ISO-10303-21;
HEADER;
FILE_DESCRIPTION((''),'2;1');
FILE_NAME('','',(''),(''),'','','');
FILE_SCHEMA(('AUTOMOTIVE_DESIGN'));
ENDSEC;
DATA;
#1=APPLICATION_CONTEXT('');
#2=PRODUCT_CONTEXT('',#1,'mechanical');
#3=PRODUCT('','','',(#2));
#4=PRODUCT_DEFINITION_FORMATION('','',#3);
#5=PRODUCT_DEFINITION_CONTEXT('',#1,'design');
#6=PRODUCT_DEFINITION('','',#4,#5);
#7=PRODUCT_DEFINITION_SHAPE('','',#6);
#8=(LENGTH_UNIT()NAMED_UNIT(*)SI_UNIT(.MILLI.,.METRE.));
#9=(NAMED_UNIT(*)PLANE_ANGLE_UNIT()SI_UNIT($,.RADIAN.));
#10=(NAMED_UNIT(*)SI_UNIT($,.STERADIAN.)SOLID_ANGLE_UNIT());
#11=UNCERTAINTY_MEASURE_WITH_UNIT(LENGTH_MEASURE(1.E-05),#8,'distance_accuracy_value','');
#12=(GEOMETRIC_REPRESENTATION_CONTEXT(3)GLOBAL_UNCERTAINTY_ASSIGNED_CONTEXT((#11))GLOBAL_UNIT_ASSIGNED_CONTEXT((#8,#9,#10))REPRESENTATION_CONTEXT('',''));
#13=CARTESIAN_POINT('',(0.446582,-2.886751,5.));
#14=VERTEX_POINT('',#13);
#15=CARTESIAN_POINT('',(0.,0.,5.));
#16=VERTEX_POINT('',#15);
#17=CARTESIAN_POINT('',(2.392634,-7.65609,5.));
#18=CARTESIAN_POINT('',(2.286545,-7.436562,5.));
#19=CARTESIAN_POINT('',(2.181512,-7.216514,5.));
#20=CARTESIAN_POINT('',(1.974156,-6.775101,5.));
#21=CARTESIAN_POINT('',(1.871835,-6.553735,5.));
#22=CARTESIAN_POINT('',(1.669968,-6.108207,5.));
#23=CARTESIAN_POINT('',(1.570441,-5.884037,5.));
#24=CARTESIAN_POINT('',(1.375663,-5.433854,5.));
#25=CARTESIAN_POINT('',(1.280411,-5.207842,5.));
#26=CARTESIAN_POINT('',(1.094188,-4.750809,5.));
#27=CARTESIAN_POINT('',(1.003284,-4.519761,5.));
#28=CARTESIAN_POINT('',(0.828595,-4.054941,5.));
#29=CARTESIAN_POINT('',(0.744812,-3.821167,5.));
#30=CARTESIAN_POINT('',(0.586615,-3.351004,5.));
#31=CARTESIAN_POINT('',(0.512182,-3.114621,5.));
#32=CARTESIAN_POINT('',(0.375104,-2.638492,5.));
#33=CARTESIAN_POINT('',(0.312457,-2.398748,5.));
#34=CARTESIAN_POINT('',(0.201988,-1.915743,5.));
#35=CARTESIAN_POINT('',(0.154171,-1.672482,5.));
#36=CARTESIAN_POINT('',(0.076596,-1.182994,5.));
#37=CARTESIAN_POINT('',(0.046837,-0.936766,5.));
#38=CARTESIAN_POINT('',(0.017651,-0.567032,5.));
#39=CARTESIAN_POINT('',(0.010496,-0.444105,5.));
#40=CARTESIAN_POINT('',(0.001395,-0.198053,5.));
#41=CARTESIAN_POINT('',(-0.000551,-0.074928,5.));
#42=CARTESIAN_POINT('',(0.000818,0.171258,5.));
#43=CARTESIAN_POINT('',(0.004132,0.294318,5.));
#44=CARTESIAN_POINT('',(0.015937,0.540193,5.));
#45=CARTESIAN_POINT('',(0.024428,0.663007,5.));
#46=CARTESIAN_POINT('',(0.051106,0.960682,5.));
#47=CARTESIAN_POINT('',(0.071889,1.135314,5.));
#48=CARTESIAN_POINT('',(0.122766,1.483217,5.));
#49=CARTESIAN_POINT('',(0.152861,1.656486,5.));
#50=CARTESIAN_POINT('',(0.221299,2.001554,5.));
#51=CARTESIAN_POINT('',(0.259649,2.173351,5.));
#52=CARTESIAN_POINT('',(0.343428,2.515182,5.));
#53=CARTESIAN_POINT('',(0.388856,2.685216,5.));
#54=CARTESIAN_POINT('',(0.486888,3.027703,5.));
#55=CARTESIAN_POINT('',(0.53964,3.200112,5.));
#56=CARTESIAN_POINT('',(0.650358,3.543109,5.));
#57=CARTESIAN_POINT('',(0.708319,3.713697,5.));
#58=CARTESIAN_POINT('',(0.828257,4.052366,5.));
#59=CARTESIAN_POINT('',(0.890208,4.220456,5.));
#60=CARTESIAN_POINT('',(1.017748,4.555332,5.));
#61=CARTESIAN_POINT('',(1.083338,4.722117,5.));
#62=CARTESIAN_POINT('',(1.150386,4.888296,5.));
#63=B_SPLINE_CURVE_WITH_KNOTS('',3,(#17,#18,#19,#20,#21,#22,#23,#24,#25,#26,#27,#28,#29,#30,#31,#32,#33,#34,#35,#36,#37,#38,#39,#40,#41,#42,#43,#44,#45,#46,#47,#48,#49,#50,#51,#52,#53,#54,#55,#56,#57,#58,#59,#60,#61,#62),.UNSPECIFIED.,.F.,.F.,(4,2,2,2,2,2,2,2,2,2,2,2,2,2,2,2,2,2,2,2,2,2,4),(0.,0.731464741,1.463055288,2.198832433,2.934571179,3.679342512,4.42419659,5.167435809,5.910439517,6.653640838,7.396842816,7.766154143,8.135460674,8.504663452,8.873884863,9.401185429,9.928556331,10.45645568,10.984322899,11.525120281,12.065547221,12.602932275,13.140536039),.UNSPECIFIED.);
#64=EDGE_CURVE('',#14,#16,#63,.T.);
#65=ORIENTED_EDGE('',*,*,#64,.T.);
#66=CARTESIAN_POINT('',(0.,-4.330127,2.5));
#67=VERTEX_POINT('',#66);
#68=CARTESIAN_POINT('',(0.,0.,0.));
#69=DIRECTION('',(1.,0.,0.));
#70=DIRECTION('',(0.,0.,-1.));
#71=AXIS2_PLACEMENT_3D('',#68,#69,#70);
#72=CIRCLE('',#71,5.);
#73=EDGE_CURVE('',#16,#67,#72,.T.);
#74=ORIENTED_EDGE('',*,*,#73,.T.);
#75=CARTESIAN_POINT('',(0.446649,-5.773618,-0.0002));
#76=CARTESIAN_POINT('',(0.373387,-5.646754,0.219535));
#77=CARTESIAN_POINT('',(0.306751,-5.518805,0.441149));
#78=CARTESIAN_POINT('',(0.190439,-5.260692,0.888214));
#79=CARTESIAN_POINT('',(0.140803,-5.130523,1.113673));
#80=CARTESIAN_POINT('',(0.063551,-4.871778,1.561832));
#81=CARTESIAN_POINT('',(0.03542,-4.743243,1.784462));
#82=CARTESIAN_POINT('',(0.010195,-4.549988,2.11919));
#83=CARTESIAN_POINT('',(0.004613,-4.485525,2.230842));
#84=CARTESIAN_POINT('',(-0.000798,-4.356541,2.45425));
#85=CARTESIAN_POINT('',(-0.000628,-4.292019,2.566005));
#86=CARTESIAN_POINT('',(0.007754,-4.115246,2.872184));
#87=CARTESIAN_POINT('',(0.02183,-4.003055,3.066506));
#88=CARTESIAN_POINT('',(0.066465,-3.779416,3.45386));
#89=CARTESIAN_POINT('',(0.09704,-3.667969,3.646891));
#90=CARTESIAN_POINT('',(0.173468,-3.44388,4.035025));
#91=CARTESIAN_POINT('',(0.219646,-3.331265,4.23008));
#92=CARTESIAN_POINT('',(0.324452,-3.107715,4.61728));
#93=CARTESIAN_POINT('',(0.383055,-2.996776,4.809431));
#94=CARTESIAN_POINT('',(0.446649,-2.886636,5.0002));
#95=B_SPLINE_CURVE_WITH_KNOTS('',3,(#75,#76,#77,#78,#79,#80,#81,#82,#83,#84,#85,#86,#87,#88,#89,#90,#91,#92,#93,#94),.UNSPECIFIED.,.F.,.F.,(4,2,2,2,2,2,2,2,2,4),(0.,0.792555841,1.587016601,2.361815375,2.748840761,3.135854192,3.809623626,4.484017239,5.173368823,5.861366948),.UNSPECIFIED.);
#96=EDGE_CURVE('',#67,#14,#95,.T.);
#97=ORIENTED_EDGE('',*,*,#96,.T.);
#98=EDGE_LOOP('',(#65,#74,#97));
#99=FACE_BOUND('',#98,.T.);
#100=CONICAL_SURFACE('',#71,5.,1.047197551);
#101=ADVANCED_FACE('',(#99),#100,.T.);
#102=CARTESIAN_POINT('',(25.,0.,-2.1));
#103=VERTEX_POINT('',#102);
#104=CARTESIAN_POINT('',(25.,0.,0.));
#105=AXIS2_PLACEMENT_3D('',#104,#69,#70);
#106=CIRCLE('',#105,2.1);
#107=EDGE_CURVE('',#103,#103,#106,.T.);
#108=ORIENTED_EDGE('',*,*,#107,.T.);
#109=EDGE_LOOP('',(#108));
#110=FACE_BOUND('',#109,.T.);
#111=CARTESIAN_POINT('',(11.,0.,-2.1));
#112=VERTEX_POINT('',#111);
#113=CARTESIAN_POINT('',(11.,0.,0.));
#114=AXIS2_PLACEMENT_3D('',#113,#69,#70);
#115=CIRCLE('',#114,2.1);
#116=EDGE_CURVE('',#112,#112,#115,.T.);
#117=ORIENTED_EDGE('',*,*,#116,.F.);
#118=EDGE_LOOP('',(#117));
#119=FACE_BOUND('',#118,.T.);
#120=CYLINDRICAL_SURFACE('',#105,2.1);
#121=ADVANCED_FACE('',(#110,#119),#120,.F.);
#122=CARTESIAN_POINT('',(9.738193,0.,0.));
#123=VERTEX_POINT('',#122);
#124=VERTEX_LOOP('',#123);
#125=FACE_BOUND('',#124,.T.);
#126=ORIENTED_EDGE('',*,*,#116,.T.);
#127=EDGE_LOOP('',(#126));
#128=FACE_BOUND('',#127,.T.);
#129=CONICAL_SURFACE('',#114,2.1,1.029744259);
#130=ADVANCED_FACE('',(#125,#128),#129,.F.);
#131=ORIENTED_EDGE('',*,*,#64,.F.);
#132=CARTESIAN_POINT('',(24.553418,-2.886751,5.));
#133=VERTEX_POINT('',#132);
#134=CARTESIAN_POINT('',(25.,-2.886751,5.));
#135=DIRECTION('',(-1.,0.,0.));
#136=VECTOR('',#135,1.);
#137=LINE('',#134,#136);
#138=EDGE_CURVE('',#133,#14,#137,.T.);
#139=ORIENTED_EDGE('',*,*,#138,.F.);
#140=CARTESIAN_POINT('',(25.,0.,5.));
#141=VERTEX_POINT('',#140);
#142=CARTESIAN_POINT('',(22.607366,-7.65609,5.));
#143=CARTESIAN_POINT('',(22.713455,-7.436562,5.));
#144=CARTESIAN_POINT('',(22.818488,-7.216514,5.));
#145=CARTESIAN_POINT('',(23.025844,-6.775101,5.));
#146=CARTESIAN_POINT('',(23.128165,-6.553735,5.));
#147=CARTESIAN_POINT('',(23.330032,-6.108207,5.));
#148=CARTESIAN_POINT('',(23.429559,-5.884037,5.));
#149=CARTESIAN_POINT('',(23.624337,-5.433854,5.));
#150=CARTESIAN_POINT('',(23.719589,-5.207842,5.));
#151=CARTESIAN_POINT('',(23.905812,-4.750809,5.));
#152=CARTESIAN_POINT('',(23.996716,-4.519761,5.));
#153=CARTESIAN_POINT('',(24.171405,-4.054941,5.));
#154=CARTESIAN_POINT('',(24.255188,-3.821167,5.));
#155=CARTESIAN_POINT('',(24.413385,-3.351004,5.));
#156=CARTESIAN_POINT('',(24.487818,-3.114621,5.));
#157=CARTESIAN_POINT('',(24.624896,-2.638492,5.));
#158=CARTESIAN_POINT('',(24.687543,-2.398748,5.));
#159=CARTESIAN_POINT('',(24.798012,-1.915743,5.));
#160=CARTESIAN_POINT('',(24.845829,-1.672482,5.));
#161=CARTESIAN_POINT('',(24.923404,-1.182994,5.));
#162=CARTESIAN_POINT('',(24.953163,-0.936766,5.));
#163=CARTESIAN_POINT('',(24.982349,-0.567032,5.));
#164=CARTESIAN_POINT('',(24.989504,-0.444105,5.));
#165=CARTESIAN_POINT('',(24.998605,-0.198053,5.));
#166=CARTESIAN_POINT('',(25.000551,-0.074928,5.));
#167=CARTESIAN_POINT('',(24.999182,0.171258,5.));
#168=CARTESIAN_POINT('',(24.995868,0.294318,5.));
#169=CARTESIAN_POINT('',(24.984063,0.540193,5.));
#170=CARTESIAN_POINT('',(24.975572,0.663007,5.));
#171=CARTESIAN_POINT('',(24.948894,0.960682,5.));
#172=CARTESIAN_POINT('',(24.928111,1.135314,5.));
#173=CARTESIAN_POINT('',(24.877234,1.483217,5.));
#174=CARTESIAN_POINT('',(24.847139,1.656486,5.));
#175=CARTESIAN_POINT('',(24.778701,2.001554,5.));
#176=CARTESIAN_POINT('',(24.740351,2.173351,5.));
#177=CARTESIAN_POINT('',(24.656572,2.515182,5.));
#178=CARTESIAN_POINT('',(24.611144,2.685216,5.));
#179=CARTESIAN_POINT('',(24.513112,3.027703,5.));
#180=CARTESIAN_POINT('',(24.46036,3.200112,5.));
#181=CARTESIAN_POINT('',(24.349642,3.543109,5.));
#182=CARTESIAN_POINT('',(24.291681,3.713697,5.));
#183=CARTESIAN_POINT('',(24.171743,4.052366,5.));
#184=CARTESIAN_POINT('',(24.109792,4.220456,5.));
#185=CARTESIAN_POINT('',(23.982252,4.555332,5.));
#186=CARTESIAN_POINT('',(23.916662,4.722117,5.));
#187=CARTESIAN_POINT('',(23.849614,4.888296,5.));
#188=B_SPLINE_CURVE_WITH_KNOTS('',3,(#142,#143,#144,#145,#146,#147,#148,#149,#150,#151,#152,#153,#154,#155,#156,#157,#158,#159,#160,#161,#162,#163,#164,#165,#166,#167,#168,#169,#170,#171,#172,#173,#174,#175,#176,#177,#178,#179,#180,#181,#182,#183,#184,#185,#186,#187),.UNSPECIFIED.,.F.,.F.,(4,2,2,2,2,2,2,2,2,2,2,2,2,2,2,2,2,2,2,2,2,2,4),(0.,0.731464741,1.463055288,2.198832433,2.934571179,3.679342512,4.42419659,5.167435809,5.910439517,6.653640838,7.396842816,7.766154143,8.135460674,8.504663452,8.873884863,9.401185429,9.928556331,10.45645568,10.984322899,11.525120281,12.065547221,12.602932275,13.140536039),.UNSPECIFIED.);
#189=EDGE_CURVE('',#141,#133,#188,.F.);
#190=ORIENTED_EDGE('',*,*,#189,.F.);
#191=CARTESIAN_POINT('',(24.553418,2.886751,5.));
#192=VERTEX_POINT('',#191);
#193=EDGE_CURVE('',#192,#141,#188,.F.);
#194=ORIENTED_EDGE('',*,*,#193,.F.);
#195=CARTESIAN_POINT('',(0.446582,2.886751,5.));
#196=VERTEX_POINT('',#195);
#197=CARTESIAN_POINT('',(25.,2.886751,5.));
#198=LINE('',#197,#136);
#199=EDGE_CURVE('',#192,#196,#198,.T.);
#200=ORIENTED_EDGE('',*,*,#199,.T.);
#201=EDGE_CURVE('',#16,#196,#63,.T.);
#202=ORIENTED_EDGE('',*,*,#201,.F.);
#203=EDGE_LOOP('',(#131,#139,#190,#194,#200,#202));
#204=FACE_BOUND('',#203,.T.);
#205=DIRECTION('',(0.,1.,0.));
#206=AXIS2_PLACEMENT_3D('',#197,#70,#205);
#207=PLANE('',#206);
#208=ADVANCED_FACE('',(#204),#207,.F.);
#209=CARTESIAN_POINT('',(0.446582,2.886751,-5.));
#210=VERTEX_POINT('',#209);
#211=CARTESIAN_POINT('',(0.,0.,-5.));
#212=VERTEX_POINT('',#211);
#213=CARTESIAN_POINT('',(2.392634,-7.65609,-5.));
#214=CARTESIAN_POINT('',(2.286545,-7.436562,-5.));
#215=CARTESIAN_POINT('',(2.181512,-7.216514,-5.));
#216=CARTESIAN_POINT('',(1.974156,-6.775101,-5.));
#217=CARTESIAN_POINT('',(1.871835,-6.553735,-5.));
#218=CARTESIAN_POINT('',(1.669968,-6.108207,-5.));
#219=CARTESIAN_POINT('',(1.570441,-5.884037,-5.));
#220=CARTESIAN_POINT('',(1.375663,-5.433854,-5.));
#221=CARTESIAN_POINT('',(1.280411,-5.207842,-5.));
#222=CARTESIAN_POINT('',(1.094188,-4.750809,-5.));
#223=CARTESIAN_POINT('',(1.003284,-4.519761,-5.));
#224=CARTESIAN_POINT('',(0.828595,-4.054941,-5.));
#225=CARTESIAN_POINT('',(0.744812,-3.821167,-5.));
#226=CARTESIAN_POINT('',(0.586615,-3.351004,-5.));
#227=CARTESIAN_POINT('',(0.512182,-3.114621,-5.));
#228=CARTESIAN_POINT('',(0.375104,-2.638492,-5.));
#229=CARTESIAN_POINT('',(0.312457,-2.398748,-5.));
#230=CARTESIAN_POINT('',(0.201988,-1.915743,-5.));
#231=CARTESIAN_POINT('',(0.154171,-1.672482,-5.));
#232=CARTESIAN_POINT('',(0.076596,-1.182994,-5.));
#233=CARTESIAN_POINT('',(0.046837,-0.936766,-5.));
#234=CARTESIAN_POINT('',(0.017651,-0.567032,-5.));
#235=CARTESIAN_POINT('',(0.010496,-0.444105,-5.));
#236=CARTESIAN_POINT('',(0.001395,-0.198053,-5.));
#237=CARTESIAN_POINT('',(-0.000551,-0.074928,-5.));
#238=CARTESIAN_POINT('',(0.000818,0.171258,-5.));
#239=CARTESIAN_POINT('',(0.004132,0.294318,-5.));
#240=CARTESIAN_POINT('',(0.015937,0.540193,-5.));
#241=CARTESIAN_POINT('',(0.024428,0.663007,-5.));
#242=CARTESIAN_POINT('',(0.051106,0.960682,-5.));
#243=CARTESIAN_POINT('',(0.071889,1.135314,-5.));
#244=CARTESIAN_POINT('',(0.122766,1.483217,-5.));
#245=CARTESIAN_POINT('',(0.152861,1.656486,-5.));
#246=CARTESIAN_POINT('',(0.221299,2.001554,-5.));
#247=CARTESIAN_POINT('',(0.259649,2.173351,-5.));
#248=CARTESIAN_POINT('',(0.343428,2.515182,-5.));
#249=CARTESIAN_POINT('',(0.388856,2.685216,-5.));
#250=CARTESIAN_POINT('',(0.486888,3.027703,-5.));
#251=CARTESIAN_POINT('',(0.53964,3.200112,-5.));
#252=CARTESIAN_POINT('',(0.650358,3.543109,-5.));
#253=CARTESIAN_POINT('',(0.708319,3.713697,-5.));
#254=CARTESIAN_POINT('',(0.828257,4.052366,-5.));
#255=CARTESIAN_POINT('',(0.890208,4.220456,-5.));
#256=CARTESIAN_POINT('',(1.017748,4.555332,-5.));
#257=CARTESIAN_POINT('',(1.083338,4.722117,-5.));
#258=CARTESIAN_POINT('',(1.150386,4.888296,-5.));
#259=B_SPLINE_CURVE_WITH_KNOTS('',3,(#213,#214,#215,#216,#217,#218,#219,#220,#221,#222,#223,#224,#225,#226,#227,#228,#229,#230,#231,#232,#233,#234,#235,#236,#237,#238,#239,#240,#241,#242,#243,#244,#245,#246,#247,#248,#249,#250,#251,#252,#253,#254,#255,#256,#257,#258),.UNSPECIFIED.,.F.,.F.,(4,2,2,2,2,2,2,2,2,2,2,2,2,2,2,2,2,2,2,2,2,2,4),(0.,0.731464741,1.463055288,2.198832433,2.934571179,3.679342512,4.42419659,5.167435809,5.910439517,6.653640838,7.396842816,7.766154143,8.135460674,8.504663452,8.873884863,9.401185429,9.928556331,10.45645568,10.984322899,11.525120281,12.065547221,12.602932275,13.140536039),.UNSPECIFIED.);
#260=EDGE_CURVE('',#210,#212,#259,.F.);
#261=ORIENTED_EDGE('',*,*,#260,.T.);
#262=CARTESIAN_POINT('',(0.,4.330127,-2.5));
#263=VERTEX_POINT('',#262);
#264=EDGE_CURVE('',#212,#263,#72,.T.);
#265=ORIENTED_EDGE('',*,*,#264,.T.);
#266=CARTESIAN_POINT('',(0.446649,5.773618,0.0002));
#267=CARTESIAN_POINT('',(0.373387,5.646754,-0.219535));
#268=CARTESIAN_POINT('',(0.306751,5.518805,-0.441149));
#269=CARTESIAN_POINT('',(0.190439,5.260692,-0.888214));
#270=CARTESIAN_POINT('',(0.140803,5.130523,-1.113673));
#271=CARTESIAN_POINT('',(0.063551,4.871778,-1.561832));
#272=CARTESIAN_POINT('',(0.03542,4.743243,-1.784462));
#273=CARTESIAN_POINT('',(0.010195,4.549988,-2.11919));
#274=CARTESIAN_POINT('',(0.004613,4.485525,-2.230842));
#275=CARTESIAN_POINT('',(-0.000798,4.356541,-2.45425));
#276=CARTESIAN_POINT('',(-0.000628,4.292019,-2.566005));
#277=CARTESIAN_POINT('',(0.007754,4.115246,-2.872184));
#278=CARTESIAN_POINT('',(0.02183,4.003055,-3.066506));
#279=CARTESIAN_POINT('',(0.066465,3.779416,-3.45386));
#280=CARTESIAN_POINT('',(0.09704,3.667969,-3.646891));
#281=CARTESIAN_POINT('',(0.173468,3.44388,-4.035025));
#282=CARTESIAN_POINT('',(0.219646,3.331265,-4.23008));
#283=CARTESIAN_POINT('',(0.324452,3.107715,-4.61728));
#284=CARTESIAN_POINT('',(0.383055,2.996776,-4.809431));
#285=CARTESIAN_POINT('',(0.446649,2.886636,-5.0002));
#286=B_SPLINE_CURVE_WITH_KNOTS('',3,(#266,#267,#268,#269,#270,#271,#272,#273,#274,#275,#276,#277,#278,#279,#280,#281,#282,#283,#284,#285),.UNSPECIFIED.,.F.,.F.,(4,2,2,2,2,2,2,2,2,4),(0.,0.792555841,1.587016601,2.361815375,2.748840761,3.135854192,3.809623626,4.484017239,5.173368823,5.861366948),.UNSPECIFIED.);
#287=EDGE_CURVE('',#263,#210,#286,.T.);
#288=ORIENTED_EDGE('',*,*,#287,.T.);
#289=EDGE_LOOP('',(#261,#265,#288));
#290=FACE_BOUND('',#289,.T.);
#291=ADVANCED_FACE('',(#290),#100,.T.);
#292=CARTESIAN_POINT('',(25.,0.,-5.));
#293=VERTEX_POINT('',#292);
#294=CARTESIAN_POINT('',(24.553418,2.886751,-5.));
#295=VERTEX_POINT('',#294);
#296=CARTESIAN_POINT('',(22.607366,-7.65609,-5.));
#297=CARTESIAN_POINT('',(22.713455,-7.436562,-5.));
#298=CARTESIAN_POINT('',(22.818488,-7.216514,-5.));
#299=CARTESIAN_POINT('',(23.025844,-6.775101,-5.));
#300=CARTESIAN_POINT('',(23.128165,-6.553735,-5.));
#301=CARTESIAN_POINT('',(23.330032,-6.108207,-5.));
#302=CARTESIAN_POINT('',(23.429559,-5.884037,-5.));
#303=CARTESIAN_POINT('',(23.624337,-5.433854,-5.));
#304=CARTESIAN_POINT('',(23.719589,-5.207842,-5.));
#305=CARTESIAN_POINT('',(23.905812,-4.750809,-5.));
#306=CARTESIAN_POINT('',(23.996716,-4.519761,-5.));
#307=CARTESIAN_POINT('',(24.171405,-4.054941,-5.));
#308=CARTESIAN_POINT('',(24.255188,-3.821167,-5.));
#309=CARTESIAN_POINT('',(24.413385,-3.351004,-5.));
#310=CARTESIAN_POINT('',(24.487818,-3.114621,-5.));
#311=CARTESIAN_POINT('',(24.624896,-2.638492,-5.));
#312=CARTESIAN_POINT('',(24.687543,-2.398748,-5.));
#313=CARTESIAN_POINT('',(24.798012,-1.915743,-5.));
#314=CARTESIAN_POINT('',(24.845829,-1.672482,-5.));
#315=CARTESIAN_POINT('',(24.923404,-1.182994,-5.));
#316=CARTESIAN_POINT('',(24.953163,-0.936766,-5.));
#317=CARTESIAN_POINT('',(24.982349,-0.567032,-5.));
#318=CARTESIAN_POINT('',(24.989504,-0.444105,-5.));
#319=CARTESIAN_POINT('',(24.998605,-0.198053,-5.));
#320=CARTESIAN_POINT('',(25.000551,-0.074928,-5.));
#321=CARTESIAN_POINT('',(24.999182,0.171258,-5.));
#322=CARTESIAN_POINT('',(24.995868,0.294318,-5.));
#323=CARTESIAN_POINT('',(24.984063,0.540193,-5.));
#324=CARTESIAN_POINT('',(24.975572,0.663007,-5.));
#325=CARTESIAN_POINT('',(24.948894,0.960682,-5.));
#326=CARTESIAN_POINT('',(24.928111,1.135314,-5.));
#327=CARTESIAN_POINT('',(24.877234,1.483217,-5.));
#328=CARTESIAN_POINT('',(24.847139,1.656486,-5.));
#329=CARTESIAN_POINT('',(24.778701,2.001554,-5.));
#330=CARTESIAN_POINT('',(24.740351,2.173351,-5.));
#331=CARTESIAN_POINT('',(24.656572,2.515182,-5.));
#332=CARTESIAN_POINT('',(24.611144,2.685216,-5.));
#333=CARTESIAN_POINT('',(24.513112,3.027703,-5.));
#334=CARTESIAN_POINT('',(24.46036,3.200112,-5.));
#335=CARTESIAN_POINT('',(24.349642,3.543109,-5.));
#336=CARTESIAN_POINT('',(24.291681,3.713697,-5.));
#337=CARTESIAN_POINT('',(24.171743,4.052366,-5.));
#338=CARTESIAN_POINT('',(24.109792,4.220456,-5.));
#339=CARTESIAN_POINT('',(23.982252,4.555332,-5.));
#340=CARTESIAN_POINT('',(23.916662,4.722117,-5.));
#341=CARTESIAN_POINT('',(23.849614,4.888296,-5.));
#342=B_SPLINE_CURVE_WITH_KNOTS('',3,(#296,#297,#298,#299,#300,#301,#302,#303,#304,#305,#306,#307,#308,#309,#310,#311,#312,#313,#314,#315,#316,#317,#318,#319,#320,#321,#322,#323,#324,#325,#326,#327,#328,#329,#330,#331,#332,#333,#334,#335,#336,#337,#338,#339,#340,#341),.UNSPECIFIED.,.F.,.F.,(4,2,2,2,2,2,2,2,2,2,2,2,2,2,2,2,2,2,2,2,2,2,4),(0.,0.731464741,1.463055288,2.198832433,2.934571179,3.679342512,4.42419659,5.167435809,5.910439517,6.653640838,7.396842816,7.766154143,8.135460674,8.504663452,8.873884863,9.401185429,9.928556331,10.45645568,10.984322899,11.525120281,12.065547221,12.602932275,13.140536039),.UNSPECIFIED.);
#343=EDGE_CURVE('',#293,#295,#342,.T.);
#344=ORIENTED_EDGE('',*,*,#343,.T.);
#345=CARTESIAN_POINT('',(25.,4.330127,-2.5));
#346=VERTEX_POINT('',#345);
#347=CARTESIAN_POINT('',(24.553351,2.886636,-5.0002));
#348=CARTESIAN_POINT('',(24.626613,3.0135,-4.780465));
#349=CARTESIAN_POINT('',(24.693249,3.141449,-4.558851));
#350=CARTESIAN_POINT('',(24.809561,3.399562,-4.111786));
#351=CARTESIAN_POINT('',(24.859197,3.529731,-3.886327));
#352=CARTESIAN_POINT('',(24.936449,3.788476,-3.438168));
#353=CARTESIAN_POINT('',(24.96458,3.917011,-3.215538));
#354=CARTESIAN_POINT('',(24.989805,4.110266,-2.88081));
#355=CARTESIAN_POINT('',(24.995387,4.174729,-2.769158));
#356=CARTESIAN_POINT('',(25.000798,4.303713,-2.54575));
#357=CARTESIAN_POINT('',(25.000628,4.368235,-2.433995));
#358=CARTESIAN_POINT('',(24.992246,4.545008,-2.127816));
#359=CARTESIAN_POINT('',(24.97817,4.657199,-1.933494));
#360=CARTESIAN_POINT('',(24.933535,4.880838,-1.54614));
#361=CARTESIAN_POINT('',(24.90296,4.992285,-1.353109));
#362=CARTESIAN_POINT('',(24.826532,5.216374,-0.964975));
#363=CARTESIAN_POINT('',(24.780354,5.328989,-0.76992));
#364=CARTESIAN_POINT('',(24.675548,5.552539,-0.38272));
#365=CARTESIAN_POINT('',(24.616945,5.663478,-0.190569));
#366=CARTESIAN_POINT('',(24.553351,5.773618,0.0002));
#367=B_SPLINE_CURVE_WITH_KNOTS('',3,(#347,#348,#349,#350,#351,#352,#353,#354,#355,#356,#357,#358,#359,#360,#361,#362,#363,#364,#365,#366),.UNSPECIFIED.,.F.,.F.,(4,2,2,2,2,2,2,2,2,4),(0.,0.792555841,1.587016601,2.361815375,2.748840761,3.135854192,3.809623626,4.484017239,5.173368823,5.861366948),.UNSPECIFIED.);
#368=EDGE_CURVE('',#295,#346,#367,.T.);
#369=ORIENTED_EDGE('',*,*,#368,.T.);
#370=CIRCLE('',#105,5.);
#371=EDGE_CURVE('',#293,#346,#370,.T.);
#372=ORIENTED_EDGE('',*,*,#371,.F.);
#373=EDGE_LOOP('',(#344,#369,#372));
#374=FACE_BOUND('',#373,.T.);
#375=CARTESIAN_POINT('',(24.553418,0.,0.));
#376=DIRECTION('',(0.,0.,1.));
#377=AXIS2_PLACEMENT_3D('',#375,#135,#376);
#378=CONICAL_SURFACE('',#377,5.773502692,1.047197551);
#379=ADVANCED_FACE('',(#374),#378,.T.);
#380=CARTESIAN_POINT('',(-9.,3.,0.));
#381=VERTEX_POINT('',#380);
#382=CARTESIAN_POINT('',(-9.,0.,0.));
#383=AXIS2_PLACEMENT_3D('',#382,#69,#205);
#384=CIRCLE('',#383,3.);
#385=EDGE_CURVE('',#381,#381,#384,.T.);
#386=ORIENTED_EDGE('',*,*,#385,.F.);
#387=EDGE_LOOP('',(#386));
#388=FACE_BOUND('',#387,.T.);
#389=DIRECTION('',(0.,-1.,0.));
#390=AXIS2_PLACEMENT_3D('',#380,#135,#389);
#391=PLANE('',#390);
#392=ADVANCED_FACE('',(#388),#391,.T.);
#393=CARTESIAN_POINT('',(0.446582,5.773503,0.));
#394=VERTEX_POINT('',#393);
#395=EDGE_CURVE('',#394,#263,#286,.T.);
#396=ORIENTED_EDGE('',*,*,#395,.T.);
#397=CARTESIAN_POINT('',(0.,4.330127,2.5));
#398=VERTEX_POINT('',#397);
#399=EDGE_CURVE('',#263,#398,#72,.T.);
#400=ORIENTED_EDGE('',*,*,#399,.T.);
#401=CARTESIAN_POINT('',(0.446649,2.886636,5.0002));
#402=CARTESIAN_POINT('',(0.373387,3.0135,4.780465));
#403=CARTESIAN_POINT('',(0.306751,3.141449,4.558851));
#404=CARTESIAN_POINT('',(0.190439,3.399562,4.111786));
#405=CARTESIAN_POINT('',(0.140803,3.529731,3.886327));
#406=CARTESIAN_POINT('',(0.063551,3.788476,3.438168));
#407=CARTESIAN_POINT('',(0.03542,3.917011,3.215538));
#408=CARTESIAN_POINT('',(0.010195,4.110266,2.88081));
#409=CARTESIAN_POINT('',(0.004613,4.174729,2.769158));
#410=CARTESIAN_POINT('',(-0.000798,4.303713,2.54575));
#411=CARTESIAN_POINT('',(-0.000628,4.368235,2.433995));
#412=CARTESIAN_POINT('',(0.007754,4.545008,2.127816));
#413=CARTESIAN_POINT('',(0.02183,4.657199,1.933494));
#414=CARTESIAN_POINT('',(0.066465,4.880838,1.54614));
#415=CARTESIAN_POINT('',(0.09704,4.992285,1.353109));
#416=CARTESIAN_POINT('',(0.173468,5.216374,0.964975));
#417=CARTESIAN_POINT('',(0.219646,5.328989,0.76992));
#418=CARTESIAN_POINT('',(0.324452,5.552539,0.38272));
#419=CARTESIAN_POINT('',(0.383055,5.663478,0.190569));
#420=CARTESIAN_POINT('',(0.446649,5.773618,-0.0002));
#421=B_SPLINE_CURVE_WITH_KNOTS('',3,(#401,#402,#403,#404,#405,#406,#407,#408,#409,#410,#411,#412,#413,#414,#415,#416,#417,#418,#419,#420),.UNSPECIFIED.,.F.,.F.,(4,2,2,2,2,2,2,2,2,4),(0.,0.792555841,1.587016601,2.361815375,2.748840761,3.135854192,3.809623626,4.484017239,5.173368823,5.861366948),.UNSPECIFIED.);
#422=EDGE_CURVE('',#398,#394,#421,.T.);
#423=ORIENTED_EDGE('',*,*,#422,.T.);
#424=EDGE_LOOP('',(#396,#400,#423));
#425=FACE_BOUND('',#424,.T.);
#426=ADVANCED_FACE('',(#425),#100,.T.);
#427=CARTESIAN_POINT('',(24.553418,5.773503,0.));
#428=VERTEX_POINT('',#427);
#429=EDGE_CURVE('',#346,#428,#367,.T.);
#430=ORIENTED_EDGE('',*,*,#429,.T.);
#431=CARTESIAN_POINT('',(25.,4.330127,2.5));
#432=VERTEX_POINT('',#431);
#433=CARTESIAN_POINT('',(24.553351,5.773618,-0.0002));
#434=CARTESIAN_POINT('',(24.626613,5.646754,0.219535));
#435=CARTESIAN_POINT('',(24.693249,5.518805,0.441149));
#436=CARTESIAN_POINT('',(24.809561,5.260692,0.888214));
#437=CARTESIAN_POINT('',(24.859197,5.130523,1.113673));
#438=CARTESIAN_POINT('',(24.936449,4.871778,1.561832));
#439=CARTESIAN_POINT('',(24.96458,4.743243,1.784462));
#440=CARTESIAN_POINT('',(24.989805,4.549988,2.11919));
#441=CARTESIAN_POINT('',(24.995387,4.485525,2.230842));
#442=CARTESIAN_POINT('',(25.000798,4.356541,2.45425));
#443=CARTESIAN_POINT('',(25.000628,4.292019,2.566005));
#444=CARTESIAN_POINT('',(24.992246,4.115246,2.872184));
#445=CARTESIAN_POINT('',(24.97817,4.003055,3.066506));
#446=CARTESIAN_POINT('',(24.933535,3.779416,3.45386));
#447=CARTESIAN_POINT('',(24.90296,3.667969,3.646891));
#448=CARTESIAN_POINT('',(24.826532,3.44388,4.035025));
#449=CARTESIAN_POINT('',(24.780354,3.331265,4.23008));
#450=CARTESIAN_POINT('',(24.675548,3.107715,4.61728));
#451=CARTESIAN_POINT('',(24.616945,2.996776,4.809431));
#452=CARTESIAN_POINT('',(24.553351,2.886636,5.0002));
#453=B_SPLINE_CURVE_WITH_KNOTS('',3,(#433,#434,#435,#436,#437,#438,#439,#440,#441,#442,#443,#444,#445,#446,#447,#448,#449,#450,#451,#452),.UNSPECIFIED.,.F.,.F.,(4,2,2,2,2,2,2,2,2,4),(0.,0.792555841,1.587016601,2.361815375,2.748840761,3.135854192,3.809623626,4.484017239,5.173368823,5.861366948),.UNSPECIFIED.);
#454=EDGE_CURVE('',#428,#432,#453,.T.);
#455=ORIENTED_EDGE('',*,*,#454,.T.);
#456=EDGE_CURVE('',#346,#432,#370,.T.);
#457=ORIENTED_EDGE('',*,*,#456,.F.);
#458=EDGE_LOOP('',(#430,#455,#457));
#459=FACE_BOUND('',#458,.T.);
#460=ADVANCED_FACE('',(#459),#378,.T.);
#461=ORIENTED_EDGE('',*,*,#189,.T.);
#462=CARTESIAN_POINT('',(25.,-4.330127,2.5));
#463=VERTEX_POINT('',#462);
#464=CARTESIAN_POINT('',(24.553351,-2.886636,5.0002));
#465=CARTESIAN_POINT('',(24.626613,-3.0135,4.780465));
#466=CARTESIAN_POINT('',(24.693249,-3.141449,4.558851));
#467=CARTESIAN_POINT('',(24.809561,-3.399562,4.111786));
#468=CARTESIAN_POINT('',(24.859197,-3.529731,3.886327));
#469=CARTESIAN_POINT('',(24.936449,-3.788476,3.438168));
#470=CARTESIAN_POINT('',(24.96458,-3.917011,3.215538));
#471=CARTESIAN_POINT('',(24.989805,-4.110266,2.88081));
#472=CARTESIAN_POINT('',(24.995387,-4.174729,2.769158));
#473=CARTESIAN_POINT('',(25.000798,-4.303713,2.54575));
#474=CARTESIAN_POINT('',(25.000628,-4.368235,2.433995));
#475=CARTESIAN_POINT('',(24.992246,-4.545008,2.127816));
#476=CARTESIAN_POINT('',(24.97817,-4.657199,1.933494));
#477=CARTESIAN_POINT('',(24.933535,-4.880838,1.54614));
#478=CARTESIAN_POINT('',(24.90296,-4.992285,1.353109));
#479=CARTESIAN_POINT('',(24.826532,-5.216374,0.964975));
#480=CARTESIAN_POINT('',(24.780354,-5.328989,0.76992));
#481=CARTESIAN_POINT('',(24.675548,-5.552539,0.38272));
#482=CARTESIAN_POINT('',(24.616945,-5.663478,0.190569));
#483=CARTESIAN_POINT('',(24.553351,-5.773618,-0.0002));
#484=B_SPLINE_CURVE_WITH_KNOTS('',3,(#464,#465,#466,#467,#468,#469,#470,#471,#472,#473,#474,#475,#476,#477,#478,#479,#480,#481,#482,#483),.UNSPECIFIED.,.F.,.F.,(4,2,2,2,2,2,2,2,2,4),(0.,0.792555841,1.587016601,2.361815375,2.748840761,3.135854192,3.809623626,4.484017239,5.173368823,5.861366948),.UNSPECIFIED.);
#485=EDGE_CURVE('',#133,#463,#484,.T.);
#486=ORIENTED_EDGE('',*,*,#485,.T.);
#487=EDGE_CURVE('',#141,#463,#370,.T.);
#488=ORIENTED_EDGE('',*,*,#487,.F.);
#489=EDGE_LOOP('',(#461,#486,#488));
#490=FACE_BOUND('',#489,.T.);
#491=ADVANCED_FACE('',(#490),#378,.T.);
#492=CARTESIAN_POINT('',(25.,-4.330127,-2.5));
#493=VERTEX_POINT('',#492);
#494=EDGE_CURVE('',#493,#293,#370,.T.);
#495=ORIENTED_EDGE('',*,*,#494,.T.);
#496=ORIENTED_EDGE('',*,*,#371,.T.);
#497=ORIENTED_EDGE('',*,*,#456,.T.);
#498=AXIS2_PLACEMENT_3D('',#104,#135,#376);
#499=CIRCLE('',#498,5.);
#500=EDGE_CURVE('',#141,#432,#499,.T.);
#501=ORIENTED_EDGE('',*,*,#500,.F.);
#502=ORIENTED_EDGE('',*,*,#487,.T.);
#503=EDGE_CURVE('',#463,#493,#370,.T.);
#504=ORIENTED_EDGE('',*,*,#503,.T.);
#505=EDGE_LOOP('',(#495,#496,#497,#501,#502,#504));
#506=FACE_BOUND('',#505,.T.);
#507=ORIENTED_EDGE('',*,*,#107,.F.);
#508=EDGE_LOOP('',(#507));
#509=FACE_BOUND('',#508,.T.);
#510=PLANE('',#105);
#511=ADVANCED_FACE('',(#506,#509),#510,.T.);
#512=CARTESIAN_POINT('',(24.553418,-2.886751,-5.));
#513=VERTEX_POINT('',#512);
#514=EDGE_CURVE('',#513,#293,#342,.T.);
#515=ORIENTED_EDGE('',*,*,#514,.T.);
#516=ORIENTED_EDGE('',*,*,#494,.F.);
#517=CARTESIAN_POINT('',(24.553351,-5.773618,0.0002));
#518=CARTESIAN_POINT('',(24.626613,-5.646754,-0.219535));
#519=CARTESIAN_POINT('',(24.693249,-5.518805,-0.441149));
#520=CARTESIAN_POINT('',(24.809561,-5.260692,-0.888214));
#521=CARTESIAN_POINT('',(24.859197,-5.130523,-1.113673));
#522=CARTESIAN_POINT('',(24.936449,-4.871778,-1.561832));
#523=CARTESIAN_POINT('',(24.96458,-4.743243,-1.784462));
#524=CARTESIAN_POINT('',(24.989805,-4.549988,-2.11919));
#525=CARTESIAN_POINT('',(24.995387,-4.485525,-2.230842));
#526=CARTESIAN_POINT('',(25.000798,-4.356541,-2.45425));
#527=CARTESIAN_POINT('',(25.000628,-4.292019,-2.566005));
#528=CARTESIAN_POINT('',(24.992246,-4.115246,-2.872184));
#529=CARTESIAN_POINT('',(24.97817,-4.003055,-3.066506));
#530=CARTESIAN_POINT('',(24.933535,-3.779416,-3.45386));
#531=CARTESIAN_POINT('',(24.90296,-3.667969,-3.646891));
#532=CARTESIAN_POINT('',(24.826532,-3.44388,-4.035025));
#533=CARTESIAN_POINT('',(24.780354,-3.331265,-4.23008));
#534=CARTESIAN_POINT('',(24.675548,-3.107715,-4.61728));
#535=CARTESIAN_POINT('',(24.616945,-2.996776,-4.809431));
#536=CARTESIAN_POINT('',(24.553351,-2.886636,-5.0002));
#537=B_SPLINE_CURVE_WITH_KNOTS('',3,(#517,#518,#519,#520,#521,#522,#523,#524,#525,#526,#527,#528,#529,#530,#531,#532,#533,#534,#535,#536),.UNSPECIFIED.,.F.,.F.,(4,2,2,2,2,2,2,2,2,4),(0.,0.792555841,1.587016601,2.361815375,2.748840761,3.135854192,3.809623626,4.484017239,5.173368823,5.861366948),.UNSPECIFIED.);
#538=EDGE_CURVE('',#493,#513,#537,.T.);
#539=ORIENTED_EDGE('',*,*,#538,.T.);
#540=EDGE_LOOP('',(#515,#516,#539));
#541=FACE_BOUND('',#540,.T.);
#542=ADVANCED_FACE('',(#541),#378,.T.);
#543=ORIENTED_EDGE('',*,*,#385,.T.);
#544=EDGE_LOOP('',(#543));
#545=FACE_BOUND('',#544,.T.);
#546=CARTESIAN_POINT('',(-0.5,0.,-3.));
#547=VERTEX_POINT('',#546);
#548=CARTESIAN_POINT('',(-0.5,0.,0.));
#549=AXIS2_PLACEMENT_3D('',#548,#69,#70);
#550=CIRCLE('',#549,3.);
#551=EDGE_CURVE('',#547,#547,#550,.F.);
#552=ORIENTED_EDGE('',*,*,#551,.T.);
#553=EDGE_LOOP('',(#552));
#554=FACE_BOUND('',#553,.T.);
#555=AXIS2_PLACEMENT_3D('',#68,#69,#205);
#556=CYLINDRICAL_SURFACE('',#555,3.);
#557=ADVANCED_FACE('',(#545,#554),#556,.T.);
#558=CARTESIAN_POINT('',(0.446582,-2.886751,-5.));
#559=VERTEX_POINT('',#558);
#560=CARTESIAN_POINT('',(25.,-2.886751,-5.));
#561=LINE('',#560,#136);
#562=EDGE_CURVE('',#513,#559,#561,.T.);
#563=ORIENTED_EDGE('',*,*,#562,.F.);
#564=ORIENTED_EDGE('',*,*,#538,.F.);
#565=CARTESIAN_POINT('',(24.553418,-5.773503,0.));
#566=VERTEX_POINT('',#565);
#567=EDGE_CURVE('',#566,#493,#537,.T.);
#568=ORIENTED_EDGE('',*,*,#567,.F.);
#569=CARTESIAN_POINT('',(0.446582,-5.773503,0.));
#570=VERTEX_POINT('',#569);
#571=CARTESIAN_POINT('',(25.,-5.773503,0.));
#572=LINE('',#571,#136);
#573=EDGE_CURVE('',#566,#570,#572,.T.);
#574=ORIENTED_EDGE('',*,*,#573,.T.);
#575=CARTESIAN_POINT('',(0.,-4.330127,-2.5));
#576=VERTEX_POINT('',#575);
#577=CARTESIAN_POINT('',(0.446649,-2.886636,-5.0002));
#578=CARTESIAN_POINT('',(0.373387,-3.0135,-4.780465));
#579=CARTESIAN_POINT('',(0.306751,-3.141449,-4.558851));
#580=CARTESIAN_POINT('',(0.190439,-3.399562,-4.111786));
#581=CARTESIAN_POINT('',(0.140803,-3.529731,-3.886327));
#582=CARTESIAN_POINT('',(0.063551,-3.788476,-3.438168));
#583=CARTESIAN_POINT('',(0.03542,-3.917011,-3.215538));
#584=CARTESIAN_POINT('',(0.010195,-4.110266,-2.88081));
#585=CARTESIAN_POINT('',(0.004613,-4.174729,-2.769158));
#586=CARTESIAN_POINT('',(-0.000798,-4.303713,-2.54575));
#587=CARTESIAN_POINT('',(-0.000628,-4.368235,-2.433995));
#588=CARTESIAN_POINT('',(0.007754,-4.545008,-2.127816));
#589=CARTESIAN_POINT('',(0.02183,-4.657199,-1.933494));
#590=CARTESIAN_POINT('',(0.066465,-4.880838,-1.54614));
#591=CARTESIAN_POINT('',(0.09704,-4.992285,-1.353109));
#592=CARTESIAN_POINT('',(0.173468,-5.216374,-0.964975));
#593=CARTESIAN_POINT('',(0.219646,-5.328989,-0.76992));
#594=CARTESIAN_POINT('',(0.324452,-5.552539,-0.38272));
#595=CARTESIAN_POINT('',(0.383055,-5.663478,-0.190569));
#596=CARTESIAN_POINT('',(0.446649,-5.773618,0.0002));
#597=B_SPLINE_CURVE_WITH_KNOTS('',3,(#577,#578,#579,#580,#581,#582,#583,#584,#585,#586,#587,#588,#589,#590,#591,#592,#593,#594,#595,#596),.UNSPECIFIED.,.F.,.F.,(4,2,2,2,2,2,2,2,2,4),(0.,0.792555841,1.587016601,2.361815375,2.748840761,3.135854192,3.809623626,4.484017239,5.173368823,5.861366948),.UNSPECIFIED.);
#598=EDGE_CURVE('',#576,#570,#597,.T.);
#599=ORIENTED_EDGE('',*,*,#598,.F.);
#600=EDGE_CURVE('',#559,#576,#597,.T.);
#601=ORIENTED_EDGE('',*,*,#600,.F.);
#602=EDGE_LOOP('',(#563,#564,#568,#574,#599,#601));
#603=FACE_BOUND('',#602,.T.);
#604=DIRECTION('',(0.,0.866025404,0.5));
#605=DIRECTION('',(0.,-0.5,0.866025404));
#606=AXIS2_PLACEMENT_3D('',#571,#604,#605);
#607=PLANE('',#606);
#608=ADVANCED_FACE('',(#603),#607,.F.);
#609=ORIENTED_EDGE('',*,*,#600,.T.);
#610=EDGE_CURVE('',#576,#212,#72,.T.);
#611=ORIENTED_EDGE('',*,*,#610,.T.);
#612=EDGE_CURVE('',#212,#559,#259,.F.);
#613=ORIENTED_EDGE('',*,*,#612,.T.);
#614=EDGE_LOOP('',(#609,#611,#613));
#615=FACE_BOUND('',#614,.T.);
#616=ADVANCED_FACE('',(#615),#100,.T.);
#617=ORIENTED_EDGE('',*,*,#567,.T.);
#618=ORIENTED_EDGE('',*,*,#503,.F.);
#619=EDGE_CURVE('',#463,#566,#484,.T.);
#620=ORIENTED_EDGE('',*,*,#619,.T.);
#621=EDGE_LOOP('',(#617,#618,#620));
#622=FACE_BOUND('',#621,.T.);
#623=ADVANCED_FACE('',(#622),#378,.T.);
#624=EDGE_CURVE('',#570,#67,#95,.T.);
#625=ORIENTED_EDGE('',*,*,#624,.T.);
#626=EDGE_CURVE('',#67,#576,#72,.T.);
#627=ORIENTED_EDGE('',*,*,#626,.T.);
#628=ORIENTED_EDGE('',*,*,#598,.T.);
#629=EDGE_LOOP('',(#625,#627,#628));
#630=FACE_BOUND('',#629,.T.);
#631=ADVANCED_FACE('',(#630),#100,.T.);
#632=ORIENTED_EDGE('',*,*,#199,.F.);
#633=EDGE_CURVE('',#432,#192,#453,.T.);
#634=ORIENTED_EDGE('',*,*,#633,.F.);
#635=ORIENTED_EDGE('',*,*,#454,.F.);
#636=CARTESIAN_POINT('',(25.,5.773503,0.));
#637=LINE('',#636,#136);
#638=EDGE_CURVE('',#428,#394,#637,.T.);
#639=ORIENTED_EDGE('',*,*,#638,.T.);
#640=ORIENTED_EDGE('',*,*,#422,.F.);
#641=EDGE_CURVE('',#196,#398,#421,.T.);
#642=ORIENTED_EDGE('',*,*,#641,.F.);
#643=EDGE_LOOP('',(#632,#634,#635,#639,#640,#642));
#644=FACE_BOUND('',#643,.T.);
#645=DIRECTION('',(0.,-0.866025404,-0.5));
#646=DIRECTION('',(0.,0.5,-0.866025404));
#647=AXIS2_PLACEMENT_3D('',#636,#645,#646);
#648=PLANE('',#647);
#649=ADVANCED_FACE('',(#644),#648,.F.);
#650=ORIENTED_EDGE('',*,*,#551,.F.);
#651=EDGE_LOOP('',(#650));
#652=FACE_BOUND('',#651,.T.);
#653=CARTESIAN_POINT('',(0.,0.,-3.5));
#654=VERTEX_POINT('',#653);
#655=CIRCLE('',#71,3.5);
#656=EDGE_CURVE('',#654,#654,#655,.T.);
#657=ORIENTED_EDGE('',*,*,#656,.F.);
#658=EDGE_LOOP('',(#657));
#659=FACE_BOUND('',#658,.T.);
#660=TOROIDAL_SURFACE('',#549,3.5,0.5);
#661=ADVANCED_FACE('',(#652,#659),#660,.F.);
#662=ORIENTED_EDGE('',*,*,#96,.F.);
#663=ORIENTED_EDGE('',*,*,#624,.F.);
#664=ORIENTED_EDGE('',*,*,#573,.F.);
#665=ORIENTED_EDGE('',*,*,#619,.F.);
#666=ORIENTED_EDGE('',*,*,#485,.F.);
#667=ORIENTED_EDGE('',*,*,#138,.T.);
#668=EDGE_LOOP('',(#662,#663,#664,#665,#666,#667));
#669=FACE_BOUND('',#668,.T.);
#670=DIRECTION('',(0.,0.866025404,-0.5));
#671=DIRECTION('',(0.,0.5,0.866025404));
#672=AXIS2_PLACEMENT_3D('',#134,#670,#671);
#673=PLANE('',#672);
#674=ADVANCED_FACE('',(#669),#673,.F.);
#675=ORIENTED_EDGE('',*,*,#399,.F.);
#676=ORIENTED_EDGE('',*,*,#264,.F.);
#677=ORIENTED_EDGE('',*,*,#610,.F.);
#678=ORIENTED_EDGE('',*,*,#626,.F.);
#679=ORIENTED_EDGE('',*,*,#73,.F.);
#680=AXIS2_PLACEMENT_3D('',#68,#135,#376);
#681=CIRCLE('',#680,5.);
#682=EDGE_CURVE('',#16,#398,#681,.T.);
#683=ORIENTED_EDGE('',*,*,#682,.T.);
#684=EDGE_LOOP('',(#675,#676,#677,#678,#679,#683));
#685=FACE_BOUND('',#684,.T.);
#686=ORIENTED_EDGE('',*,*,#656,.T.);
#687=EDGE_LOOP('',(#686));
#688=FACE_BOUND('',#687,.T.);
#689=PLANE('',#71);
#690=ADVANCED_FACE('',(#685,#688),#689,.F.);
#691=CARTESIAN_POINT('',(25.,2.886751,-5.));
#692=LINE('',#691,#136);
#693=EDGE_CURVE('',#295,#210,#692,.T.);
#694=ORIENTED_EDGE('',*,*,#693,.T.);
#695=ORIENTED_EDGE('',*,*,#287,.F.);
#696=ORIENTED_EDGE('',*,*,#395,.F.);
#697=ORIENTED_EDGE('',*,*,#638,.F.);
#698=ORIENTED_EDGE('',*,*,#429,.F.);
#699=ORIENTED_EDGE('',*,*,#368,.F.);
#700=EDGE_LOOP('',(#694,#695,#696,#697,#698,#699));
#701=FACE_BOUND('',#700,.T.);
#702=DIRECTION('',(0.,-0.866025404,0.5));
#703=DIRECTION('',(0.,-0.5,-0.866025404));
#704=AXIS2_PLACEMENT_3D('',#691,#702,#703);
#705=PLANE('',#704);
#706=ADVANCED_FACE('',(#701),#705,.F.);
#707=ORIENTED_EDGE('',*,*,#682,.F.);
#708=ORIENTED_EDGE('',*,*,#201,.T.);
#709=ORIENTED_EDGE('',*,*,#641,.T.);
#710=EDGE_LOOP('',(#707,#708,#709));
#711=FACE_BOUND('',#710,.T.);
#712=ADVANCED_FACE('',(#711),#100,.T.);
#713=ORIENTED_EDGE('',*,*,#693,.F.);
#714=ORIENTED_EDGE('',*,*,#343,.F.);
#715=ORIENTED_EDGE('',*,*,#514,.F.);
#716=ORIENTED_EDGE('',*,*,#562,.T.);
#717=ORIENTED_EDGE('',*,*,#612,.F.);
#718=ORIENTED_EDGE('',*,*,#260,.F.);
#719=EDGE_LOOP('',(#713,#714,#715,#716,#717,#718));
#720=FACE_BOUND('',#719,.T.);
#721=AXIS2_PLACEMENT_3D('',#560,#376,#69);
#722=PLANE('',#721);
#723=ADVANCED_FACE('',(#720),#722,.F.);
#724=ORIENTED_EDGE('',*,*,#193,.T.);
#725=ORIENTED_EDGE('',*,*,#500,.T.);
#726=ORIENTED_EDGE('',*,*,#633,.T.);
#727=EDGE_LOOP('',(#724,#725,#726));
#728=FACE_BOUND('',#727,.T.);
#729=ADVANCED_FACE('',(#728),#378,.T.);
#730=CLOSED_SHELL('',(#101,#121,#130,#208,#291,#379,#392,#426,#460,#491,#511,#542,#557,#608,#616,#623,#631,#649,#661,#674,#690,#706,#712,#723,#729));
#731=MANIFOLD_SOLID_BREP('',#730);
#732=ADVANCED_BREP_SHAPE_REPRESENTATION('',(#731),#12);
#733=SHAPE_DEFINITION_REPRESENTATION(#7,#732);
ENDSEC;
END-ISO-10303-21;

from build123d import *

# Parameters (mm, degrees)
BOSS_EXTRUDE1_DEPTH = 25
SKETCH3_W           = 9
SKETCH3_H           = 3
TAPPED_HOLE1_D      = 4.2
TAPPED_HOLE1_DEPTH  = 14
TAPPED_HOLE1_TIP    = 1.2618073
FILLET1_R           = 0.5


with BuildPart() as part:
    # Sketch1 → Boss-Extrude1 (new body)
    with BuildSketch(Plane(origin=(0, 0, 0), x_dir=(0, 0, -1), z_dir=(1, 0, 0))):
        Polygon((0, 5.773502692), (-5, 2.886751346), (-5, -2.886751346), (0, -5.773502692), (5, -2.886751346), (5, 2.886751346), align=None)
    extrude(amount=BOSS_EXTRUDE1_DEPTH)

    # Sketch2 → Cut-Revolve1 (revolve, cut)
    with BuildSketch(Plane.XY):
        Polygon((0.446581987, 5.773502692), (0, 5.773502692), (0, 5), align=None)
        Polygon((25, 5), (25, 5.773502692), (24.553418013, 5.773502692), align=None)
    revolve(axis=Axis((0, 0, 0), (1, 0, 0)), mode=Mode.SUBTRACT)

    # Sketch3 → Revolve1 (revolve)
    with BuildSketch(Plane.XY):
        with Locations((-4.5, 1.5)):
            Rectangle(SKETCH3_W, SKETCH3_H)
    revolve(axis=Axis((0, 0, 0), (-1, 0, 0)))

    # Tapped Hole1
    with Locations(Plane(origin=(25, 0, 0), x_dir=(0, 0, -1), z_dir=(1, 0, 0))):
        with Locations((0, 0)):
            Hole(TAPPED_HOLE1_D / 2, depth=TAPPED_HOLE1_DEPTH)
            with Locations((0, 0, -(TAPPED_HOLE1_DEPTH + TAPPED_HOLE1_TIP / 2))):  # 118° drill point
                Cone(0, TAPPED_HOLE1_D / 2, TAPPED_HOLE1_TIP, mode=Mode.SUBTRACT)

    # Fillet1
    fillet1_edges = [part.edges().sort_by_distance(p)[0] for p in [
        (0, -3, 0),
    ]]
    fillet(fillet1_edges, radius=FILLET1_R)


solid = part.part
